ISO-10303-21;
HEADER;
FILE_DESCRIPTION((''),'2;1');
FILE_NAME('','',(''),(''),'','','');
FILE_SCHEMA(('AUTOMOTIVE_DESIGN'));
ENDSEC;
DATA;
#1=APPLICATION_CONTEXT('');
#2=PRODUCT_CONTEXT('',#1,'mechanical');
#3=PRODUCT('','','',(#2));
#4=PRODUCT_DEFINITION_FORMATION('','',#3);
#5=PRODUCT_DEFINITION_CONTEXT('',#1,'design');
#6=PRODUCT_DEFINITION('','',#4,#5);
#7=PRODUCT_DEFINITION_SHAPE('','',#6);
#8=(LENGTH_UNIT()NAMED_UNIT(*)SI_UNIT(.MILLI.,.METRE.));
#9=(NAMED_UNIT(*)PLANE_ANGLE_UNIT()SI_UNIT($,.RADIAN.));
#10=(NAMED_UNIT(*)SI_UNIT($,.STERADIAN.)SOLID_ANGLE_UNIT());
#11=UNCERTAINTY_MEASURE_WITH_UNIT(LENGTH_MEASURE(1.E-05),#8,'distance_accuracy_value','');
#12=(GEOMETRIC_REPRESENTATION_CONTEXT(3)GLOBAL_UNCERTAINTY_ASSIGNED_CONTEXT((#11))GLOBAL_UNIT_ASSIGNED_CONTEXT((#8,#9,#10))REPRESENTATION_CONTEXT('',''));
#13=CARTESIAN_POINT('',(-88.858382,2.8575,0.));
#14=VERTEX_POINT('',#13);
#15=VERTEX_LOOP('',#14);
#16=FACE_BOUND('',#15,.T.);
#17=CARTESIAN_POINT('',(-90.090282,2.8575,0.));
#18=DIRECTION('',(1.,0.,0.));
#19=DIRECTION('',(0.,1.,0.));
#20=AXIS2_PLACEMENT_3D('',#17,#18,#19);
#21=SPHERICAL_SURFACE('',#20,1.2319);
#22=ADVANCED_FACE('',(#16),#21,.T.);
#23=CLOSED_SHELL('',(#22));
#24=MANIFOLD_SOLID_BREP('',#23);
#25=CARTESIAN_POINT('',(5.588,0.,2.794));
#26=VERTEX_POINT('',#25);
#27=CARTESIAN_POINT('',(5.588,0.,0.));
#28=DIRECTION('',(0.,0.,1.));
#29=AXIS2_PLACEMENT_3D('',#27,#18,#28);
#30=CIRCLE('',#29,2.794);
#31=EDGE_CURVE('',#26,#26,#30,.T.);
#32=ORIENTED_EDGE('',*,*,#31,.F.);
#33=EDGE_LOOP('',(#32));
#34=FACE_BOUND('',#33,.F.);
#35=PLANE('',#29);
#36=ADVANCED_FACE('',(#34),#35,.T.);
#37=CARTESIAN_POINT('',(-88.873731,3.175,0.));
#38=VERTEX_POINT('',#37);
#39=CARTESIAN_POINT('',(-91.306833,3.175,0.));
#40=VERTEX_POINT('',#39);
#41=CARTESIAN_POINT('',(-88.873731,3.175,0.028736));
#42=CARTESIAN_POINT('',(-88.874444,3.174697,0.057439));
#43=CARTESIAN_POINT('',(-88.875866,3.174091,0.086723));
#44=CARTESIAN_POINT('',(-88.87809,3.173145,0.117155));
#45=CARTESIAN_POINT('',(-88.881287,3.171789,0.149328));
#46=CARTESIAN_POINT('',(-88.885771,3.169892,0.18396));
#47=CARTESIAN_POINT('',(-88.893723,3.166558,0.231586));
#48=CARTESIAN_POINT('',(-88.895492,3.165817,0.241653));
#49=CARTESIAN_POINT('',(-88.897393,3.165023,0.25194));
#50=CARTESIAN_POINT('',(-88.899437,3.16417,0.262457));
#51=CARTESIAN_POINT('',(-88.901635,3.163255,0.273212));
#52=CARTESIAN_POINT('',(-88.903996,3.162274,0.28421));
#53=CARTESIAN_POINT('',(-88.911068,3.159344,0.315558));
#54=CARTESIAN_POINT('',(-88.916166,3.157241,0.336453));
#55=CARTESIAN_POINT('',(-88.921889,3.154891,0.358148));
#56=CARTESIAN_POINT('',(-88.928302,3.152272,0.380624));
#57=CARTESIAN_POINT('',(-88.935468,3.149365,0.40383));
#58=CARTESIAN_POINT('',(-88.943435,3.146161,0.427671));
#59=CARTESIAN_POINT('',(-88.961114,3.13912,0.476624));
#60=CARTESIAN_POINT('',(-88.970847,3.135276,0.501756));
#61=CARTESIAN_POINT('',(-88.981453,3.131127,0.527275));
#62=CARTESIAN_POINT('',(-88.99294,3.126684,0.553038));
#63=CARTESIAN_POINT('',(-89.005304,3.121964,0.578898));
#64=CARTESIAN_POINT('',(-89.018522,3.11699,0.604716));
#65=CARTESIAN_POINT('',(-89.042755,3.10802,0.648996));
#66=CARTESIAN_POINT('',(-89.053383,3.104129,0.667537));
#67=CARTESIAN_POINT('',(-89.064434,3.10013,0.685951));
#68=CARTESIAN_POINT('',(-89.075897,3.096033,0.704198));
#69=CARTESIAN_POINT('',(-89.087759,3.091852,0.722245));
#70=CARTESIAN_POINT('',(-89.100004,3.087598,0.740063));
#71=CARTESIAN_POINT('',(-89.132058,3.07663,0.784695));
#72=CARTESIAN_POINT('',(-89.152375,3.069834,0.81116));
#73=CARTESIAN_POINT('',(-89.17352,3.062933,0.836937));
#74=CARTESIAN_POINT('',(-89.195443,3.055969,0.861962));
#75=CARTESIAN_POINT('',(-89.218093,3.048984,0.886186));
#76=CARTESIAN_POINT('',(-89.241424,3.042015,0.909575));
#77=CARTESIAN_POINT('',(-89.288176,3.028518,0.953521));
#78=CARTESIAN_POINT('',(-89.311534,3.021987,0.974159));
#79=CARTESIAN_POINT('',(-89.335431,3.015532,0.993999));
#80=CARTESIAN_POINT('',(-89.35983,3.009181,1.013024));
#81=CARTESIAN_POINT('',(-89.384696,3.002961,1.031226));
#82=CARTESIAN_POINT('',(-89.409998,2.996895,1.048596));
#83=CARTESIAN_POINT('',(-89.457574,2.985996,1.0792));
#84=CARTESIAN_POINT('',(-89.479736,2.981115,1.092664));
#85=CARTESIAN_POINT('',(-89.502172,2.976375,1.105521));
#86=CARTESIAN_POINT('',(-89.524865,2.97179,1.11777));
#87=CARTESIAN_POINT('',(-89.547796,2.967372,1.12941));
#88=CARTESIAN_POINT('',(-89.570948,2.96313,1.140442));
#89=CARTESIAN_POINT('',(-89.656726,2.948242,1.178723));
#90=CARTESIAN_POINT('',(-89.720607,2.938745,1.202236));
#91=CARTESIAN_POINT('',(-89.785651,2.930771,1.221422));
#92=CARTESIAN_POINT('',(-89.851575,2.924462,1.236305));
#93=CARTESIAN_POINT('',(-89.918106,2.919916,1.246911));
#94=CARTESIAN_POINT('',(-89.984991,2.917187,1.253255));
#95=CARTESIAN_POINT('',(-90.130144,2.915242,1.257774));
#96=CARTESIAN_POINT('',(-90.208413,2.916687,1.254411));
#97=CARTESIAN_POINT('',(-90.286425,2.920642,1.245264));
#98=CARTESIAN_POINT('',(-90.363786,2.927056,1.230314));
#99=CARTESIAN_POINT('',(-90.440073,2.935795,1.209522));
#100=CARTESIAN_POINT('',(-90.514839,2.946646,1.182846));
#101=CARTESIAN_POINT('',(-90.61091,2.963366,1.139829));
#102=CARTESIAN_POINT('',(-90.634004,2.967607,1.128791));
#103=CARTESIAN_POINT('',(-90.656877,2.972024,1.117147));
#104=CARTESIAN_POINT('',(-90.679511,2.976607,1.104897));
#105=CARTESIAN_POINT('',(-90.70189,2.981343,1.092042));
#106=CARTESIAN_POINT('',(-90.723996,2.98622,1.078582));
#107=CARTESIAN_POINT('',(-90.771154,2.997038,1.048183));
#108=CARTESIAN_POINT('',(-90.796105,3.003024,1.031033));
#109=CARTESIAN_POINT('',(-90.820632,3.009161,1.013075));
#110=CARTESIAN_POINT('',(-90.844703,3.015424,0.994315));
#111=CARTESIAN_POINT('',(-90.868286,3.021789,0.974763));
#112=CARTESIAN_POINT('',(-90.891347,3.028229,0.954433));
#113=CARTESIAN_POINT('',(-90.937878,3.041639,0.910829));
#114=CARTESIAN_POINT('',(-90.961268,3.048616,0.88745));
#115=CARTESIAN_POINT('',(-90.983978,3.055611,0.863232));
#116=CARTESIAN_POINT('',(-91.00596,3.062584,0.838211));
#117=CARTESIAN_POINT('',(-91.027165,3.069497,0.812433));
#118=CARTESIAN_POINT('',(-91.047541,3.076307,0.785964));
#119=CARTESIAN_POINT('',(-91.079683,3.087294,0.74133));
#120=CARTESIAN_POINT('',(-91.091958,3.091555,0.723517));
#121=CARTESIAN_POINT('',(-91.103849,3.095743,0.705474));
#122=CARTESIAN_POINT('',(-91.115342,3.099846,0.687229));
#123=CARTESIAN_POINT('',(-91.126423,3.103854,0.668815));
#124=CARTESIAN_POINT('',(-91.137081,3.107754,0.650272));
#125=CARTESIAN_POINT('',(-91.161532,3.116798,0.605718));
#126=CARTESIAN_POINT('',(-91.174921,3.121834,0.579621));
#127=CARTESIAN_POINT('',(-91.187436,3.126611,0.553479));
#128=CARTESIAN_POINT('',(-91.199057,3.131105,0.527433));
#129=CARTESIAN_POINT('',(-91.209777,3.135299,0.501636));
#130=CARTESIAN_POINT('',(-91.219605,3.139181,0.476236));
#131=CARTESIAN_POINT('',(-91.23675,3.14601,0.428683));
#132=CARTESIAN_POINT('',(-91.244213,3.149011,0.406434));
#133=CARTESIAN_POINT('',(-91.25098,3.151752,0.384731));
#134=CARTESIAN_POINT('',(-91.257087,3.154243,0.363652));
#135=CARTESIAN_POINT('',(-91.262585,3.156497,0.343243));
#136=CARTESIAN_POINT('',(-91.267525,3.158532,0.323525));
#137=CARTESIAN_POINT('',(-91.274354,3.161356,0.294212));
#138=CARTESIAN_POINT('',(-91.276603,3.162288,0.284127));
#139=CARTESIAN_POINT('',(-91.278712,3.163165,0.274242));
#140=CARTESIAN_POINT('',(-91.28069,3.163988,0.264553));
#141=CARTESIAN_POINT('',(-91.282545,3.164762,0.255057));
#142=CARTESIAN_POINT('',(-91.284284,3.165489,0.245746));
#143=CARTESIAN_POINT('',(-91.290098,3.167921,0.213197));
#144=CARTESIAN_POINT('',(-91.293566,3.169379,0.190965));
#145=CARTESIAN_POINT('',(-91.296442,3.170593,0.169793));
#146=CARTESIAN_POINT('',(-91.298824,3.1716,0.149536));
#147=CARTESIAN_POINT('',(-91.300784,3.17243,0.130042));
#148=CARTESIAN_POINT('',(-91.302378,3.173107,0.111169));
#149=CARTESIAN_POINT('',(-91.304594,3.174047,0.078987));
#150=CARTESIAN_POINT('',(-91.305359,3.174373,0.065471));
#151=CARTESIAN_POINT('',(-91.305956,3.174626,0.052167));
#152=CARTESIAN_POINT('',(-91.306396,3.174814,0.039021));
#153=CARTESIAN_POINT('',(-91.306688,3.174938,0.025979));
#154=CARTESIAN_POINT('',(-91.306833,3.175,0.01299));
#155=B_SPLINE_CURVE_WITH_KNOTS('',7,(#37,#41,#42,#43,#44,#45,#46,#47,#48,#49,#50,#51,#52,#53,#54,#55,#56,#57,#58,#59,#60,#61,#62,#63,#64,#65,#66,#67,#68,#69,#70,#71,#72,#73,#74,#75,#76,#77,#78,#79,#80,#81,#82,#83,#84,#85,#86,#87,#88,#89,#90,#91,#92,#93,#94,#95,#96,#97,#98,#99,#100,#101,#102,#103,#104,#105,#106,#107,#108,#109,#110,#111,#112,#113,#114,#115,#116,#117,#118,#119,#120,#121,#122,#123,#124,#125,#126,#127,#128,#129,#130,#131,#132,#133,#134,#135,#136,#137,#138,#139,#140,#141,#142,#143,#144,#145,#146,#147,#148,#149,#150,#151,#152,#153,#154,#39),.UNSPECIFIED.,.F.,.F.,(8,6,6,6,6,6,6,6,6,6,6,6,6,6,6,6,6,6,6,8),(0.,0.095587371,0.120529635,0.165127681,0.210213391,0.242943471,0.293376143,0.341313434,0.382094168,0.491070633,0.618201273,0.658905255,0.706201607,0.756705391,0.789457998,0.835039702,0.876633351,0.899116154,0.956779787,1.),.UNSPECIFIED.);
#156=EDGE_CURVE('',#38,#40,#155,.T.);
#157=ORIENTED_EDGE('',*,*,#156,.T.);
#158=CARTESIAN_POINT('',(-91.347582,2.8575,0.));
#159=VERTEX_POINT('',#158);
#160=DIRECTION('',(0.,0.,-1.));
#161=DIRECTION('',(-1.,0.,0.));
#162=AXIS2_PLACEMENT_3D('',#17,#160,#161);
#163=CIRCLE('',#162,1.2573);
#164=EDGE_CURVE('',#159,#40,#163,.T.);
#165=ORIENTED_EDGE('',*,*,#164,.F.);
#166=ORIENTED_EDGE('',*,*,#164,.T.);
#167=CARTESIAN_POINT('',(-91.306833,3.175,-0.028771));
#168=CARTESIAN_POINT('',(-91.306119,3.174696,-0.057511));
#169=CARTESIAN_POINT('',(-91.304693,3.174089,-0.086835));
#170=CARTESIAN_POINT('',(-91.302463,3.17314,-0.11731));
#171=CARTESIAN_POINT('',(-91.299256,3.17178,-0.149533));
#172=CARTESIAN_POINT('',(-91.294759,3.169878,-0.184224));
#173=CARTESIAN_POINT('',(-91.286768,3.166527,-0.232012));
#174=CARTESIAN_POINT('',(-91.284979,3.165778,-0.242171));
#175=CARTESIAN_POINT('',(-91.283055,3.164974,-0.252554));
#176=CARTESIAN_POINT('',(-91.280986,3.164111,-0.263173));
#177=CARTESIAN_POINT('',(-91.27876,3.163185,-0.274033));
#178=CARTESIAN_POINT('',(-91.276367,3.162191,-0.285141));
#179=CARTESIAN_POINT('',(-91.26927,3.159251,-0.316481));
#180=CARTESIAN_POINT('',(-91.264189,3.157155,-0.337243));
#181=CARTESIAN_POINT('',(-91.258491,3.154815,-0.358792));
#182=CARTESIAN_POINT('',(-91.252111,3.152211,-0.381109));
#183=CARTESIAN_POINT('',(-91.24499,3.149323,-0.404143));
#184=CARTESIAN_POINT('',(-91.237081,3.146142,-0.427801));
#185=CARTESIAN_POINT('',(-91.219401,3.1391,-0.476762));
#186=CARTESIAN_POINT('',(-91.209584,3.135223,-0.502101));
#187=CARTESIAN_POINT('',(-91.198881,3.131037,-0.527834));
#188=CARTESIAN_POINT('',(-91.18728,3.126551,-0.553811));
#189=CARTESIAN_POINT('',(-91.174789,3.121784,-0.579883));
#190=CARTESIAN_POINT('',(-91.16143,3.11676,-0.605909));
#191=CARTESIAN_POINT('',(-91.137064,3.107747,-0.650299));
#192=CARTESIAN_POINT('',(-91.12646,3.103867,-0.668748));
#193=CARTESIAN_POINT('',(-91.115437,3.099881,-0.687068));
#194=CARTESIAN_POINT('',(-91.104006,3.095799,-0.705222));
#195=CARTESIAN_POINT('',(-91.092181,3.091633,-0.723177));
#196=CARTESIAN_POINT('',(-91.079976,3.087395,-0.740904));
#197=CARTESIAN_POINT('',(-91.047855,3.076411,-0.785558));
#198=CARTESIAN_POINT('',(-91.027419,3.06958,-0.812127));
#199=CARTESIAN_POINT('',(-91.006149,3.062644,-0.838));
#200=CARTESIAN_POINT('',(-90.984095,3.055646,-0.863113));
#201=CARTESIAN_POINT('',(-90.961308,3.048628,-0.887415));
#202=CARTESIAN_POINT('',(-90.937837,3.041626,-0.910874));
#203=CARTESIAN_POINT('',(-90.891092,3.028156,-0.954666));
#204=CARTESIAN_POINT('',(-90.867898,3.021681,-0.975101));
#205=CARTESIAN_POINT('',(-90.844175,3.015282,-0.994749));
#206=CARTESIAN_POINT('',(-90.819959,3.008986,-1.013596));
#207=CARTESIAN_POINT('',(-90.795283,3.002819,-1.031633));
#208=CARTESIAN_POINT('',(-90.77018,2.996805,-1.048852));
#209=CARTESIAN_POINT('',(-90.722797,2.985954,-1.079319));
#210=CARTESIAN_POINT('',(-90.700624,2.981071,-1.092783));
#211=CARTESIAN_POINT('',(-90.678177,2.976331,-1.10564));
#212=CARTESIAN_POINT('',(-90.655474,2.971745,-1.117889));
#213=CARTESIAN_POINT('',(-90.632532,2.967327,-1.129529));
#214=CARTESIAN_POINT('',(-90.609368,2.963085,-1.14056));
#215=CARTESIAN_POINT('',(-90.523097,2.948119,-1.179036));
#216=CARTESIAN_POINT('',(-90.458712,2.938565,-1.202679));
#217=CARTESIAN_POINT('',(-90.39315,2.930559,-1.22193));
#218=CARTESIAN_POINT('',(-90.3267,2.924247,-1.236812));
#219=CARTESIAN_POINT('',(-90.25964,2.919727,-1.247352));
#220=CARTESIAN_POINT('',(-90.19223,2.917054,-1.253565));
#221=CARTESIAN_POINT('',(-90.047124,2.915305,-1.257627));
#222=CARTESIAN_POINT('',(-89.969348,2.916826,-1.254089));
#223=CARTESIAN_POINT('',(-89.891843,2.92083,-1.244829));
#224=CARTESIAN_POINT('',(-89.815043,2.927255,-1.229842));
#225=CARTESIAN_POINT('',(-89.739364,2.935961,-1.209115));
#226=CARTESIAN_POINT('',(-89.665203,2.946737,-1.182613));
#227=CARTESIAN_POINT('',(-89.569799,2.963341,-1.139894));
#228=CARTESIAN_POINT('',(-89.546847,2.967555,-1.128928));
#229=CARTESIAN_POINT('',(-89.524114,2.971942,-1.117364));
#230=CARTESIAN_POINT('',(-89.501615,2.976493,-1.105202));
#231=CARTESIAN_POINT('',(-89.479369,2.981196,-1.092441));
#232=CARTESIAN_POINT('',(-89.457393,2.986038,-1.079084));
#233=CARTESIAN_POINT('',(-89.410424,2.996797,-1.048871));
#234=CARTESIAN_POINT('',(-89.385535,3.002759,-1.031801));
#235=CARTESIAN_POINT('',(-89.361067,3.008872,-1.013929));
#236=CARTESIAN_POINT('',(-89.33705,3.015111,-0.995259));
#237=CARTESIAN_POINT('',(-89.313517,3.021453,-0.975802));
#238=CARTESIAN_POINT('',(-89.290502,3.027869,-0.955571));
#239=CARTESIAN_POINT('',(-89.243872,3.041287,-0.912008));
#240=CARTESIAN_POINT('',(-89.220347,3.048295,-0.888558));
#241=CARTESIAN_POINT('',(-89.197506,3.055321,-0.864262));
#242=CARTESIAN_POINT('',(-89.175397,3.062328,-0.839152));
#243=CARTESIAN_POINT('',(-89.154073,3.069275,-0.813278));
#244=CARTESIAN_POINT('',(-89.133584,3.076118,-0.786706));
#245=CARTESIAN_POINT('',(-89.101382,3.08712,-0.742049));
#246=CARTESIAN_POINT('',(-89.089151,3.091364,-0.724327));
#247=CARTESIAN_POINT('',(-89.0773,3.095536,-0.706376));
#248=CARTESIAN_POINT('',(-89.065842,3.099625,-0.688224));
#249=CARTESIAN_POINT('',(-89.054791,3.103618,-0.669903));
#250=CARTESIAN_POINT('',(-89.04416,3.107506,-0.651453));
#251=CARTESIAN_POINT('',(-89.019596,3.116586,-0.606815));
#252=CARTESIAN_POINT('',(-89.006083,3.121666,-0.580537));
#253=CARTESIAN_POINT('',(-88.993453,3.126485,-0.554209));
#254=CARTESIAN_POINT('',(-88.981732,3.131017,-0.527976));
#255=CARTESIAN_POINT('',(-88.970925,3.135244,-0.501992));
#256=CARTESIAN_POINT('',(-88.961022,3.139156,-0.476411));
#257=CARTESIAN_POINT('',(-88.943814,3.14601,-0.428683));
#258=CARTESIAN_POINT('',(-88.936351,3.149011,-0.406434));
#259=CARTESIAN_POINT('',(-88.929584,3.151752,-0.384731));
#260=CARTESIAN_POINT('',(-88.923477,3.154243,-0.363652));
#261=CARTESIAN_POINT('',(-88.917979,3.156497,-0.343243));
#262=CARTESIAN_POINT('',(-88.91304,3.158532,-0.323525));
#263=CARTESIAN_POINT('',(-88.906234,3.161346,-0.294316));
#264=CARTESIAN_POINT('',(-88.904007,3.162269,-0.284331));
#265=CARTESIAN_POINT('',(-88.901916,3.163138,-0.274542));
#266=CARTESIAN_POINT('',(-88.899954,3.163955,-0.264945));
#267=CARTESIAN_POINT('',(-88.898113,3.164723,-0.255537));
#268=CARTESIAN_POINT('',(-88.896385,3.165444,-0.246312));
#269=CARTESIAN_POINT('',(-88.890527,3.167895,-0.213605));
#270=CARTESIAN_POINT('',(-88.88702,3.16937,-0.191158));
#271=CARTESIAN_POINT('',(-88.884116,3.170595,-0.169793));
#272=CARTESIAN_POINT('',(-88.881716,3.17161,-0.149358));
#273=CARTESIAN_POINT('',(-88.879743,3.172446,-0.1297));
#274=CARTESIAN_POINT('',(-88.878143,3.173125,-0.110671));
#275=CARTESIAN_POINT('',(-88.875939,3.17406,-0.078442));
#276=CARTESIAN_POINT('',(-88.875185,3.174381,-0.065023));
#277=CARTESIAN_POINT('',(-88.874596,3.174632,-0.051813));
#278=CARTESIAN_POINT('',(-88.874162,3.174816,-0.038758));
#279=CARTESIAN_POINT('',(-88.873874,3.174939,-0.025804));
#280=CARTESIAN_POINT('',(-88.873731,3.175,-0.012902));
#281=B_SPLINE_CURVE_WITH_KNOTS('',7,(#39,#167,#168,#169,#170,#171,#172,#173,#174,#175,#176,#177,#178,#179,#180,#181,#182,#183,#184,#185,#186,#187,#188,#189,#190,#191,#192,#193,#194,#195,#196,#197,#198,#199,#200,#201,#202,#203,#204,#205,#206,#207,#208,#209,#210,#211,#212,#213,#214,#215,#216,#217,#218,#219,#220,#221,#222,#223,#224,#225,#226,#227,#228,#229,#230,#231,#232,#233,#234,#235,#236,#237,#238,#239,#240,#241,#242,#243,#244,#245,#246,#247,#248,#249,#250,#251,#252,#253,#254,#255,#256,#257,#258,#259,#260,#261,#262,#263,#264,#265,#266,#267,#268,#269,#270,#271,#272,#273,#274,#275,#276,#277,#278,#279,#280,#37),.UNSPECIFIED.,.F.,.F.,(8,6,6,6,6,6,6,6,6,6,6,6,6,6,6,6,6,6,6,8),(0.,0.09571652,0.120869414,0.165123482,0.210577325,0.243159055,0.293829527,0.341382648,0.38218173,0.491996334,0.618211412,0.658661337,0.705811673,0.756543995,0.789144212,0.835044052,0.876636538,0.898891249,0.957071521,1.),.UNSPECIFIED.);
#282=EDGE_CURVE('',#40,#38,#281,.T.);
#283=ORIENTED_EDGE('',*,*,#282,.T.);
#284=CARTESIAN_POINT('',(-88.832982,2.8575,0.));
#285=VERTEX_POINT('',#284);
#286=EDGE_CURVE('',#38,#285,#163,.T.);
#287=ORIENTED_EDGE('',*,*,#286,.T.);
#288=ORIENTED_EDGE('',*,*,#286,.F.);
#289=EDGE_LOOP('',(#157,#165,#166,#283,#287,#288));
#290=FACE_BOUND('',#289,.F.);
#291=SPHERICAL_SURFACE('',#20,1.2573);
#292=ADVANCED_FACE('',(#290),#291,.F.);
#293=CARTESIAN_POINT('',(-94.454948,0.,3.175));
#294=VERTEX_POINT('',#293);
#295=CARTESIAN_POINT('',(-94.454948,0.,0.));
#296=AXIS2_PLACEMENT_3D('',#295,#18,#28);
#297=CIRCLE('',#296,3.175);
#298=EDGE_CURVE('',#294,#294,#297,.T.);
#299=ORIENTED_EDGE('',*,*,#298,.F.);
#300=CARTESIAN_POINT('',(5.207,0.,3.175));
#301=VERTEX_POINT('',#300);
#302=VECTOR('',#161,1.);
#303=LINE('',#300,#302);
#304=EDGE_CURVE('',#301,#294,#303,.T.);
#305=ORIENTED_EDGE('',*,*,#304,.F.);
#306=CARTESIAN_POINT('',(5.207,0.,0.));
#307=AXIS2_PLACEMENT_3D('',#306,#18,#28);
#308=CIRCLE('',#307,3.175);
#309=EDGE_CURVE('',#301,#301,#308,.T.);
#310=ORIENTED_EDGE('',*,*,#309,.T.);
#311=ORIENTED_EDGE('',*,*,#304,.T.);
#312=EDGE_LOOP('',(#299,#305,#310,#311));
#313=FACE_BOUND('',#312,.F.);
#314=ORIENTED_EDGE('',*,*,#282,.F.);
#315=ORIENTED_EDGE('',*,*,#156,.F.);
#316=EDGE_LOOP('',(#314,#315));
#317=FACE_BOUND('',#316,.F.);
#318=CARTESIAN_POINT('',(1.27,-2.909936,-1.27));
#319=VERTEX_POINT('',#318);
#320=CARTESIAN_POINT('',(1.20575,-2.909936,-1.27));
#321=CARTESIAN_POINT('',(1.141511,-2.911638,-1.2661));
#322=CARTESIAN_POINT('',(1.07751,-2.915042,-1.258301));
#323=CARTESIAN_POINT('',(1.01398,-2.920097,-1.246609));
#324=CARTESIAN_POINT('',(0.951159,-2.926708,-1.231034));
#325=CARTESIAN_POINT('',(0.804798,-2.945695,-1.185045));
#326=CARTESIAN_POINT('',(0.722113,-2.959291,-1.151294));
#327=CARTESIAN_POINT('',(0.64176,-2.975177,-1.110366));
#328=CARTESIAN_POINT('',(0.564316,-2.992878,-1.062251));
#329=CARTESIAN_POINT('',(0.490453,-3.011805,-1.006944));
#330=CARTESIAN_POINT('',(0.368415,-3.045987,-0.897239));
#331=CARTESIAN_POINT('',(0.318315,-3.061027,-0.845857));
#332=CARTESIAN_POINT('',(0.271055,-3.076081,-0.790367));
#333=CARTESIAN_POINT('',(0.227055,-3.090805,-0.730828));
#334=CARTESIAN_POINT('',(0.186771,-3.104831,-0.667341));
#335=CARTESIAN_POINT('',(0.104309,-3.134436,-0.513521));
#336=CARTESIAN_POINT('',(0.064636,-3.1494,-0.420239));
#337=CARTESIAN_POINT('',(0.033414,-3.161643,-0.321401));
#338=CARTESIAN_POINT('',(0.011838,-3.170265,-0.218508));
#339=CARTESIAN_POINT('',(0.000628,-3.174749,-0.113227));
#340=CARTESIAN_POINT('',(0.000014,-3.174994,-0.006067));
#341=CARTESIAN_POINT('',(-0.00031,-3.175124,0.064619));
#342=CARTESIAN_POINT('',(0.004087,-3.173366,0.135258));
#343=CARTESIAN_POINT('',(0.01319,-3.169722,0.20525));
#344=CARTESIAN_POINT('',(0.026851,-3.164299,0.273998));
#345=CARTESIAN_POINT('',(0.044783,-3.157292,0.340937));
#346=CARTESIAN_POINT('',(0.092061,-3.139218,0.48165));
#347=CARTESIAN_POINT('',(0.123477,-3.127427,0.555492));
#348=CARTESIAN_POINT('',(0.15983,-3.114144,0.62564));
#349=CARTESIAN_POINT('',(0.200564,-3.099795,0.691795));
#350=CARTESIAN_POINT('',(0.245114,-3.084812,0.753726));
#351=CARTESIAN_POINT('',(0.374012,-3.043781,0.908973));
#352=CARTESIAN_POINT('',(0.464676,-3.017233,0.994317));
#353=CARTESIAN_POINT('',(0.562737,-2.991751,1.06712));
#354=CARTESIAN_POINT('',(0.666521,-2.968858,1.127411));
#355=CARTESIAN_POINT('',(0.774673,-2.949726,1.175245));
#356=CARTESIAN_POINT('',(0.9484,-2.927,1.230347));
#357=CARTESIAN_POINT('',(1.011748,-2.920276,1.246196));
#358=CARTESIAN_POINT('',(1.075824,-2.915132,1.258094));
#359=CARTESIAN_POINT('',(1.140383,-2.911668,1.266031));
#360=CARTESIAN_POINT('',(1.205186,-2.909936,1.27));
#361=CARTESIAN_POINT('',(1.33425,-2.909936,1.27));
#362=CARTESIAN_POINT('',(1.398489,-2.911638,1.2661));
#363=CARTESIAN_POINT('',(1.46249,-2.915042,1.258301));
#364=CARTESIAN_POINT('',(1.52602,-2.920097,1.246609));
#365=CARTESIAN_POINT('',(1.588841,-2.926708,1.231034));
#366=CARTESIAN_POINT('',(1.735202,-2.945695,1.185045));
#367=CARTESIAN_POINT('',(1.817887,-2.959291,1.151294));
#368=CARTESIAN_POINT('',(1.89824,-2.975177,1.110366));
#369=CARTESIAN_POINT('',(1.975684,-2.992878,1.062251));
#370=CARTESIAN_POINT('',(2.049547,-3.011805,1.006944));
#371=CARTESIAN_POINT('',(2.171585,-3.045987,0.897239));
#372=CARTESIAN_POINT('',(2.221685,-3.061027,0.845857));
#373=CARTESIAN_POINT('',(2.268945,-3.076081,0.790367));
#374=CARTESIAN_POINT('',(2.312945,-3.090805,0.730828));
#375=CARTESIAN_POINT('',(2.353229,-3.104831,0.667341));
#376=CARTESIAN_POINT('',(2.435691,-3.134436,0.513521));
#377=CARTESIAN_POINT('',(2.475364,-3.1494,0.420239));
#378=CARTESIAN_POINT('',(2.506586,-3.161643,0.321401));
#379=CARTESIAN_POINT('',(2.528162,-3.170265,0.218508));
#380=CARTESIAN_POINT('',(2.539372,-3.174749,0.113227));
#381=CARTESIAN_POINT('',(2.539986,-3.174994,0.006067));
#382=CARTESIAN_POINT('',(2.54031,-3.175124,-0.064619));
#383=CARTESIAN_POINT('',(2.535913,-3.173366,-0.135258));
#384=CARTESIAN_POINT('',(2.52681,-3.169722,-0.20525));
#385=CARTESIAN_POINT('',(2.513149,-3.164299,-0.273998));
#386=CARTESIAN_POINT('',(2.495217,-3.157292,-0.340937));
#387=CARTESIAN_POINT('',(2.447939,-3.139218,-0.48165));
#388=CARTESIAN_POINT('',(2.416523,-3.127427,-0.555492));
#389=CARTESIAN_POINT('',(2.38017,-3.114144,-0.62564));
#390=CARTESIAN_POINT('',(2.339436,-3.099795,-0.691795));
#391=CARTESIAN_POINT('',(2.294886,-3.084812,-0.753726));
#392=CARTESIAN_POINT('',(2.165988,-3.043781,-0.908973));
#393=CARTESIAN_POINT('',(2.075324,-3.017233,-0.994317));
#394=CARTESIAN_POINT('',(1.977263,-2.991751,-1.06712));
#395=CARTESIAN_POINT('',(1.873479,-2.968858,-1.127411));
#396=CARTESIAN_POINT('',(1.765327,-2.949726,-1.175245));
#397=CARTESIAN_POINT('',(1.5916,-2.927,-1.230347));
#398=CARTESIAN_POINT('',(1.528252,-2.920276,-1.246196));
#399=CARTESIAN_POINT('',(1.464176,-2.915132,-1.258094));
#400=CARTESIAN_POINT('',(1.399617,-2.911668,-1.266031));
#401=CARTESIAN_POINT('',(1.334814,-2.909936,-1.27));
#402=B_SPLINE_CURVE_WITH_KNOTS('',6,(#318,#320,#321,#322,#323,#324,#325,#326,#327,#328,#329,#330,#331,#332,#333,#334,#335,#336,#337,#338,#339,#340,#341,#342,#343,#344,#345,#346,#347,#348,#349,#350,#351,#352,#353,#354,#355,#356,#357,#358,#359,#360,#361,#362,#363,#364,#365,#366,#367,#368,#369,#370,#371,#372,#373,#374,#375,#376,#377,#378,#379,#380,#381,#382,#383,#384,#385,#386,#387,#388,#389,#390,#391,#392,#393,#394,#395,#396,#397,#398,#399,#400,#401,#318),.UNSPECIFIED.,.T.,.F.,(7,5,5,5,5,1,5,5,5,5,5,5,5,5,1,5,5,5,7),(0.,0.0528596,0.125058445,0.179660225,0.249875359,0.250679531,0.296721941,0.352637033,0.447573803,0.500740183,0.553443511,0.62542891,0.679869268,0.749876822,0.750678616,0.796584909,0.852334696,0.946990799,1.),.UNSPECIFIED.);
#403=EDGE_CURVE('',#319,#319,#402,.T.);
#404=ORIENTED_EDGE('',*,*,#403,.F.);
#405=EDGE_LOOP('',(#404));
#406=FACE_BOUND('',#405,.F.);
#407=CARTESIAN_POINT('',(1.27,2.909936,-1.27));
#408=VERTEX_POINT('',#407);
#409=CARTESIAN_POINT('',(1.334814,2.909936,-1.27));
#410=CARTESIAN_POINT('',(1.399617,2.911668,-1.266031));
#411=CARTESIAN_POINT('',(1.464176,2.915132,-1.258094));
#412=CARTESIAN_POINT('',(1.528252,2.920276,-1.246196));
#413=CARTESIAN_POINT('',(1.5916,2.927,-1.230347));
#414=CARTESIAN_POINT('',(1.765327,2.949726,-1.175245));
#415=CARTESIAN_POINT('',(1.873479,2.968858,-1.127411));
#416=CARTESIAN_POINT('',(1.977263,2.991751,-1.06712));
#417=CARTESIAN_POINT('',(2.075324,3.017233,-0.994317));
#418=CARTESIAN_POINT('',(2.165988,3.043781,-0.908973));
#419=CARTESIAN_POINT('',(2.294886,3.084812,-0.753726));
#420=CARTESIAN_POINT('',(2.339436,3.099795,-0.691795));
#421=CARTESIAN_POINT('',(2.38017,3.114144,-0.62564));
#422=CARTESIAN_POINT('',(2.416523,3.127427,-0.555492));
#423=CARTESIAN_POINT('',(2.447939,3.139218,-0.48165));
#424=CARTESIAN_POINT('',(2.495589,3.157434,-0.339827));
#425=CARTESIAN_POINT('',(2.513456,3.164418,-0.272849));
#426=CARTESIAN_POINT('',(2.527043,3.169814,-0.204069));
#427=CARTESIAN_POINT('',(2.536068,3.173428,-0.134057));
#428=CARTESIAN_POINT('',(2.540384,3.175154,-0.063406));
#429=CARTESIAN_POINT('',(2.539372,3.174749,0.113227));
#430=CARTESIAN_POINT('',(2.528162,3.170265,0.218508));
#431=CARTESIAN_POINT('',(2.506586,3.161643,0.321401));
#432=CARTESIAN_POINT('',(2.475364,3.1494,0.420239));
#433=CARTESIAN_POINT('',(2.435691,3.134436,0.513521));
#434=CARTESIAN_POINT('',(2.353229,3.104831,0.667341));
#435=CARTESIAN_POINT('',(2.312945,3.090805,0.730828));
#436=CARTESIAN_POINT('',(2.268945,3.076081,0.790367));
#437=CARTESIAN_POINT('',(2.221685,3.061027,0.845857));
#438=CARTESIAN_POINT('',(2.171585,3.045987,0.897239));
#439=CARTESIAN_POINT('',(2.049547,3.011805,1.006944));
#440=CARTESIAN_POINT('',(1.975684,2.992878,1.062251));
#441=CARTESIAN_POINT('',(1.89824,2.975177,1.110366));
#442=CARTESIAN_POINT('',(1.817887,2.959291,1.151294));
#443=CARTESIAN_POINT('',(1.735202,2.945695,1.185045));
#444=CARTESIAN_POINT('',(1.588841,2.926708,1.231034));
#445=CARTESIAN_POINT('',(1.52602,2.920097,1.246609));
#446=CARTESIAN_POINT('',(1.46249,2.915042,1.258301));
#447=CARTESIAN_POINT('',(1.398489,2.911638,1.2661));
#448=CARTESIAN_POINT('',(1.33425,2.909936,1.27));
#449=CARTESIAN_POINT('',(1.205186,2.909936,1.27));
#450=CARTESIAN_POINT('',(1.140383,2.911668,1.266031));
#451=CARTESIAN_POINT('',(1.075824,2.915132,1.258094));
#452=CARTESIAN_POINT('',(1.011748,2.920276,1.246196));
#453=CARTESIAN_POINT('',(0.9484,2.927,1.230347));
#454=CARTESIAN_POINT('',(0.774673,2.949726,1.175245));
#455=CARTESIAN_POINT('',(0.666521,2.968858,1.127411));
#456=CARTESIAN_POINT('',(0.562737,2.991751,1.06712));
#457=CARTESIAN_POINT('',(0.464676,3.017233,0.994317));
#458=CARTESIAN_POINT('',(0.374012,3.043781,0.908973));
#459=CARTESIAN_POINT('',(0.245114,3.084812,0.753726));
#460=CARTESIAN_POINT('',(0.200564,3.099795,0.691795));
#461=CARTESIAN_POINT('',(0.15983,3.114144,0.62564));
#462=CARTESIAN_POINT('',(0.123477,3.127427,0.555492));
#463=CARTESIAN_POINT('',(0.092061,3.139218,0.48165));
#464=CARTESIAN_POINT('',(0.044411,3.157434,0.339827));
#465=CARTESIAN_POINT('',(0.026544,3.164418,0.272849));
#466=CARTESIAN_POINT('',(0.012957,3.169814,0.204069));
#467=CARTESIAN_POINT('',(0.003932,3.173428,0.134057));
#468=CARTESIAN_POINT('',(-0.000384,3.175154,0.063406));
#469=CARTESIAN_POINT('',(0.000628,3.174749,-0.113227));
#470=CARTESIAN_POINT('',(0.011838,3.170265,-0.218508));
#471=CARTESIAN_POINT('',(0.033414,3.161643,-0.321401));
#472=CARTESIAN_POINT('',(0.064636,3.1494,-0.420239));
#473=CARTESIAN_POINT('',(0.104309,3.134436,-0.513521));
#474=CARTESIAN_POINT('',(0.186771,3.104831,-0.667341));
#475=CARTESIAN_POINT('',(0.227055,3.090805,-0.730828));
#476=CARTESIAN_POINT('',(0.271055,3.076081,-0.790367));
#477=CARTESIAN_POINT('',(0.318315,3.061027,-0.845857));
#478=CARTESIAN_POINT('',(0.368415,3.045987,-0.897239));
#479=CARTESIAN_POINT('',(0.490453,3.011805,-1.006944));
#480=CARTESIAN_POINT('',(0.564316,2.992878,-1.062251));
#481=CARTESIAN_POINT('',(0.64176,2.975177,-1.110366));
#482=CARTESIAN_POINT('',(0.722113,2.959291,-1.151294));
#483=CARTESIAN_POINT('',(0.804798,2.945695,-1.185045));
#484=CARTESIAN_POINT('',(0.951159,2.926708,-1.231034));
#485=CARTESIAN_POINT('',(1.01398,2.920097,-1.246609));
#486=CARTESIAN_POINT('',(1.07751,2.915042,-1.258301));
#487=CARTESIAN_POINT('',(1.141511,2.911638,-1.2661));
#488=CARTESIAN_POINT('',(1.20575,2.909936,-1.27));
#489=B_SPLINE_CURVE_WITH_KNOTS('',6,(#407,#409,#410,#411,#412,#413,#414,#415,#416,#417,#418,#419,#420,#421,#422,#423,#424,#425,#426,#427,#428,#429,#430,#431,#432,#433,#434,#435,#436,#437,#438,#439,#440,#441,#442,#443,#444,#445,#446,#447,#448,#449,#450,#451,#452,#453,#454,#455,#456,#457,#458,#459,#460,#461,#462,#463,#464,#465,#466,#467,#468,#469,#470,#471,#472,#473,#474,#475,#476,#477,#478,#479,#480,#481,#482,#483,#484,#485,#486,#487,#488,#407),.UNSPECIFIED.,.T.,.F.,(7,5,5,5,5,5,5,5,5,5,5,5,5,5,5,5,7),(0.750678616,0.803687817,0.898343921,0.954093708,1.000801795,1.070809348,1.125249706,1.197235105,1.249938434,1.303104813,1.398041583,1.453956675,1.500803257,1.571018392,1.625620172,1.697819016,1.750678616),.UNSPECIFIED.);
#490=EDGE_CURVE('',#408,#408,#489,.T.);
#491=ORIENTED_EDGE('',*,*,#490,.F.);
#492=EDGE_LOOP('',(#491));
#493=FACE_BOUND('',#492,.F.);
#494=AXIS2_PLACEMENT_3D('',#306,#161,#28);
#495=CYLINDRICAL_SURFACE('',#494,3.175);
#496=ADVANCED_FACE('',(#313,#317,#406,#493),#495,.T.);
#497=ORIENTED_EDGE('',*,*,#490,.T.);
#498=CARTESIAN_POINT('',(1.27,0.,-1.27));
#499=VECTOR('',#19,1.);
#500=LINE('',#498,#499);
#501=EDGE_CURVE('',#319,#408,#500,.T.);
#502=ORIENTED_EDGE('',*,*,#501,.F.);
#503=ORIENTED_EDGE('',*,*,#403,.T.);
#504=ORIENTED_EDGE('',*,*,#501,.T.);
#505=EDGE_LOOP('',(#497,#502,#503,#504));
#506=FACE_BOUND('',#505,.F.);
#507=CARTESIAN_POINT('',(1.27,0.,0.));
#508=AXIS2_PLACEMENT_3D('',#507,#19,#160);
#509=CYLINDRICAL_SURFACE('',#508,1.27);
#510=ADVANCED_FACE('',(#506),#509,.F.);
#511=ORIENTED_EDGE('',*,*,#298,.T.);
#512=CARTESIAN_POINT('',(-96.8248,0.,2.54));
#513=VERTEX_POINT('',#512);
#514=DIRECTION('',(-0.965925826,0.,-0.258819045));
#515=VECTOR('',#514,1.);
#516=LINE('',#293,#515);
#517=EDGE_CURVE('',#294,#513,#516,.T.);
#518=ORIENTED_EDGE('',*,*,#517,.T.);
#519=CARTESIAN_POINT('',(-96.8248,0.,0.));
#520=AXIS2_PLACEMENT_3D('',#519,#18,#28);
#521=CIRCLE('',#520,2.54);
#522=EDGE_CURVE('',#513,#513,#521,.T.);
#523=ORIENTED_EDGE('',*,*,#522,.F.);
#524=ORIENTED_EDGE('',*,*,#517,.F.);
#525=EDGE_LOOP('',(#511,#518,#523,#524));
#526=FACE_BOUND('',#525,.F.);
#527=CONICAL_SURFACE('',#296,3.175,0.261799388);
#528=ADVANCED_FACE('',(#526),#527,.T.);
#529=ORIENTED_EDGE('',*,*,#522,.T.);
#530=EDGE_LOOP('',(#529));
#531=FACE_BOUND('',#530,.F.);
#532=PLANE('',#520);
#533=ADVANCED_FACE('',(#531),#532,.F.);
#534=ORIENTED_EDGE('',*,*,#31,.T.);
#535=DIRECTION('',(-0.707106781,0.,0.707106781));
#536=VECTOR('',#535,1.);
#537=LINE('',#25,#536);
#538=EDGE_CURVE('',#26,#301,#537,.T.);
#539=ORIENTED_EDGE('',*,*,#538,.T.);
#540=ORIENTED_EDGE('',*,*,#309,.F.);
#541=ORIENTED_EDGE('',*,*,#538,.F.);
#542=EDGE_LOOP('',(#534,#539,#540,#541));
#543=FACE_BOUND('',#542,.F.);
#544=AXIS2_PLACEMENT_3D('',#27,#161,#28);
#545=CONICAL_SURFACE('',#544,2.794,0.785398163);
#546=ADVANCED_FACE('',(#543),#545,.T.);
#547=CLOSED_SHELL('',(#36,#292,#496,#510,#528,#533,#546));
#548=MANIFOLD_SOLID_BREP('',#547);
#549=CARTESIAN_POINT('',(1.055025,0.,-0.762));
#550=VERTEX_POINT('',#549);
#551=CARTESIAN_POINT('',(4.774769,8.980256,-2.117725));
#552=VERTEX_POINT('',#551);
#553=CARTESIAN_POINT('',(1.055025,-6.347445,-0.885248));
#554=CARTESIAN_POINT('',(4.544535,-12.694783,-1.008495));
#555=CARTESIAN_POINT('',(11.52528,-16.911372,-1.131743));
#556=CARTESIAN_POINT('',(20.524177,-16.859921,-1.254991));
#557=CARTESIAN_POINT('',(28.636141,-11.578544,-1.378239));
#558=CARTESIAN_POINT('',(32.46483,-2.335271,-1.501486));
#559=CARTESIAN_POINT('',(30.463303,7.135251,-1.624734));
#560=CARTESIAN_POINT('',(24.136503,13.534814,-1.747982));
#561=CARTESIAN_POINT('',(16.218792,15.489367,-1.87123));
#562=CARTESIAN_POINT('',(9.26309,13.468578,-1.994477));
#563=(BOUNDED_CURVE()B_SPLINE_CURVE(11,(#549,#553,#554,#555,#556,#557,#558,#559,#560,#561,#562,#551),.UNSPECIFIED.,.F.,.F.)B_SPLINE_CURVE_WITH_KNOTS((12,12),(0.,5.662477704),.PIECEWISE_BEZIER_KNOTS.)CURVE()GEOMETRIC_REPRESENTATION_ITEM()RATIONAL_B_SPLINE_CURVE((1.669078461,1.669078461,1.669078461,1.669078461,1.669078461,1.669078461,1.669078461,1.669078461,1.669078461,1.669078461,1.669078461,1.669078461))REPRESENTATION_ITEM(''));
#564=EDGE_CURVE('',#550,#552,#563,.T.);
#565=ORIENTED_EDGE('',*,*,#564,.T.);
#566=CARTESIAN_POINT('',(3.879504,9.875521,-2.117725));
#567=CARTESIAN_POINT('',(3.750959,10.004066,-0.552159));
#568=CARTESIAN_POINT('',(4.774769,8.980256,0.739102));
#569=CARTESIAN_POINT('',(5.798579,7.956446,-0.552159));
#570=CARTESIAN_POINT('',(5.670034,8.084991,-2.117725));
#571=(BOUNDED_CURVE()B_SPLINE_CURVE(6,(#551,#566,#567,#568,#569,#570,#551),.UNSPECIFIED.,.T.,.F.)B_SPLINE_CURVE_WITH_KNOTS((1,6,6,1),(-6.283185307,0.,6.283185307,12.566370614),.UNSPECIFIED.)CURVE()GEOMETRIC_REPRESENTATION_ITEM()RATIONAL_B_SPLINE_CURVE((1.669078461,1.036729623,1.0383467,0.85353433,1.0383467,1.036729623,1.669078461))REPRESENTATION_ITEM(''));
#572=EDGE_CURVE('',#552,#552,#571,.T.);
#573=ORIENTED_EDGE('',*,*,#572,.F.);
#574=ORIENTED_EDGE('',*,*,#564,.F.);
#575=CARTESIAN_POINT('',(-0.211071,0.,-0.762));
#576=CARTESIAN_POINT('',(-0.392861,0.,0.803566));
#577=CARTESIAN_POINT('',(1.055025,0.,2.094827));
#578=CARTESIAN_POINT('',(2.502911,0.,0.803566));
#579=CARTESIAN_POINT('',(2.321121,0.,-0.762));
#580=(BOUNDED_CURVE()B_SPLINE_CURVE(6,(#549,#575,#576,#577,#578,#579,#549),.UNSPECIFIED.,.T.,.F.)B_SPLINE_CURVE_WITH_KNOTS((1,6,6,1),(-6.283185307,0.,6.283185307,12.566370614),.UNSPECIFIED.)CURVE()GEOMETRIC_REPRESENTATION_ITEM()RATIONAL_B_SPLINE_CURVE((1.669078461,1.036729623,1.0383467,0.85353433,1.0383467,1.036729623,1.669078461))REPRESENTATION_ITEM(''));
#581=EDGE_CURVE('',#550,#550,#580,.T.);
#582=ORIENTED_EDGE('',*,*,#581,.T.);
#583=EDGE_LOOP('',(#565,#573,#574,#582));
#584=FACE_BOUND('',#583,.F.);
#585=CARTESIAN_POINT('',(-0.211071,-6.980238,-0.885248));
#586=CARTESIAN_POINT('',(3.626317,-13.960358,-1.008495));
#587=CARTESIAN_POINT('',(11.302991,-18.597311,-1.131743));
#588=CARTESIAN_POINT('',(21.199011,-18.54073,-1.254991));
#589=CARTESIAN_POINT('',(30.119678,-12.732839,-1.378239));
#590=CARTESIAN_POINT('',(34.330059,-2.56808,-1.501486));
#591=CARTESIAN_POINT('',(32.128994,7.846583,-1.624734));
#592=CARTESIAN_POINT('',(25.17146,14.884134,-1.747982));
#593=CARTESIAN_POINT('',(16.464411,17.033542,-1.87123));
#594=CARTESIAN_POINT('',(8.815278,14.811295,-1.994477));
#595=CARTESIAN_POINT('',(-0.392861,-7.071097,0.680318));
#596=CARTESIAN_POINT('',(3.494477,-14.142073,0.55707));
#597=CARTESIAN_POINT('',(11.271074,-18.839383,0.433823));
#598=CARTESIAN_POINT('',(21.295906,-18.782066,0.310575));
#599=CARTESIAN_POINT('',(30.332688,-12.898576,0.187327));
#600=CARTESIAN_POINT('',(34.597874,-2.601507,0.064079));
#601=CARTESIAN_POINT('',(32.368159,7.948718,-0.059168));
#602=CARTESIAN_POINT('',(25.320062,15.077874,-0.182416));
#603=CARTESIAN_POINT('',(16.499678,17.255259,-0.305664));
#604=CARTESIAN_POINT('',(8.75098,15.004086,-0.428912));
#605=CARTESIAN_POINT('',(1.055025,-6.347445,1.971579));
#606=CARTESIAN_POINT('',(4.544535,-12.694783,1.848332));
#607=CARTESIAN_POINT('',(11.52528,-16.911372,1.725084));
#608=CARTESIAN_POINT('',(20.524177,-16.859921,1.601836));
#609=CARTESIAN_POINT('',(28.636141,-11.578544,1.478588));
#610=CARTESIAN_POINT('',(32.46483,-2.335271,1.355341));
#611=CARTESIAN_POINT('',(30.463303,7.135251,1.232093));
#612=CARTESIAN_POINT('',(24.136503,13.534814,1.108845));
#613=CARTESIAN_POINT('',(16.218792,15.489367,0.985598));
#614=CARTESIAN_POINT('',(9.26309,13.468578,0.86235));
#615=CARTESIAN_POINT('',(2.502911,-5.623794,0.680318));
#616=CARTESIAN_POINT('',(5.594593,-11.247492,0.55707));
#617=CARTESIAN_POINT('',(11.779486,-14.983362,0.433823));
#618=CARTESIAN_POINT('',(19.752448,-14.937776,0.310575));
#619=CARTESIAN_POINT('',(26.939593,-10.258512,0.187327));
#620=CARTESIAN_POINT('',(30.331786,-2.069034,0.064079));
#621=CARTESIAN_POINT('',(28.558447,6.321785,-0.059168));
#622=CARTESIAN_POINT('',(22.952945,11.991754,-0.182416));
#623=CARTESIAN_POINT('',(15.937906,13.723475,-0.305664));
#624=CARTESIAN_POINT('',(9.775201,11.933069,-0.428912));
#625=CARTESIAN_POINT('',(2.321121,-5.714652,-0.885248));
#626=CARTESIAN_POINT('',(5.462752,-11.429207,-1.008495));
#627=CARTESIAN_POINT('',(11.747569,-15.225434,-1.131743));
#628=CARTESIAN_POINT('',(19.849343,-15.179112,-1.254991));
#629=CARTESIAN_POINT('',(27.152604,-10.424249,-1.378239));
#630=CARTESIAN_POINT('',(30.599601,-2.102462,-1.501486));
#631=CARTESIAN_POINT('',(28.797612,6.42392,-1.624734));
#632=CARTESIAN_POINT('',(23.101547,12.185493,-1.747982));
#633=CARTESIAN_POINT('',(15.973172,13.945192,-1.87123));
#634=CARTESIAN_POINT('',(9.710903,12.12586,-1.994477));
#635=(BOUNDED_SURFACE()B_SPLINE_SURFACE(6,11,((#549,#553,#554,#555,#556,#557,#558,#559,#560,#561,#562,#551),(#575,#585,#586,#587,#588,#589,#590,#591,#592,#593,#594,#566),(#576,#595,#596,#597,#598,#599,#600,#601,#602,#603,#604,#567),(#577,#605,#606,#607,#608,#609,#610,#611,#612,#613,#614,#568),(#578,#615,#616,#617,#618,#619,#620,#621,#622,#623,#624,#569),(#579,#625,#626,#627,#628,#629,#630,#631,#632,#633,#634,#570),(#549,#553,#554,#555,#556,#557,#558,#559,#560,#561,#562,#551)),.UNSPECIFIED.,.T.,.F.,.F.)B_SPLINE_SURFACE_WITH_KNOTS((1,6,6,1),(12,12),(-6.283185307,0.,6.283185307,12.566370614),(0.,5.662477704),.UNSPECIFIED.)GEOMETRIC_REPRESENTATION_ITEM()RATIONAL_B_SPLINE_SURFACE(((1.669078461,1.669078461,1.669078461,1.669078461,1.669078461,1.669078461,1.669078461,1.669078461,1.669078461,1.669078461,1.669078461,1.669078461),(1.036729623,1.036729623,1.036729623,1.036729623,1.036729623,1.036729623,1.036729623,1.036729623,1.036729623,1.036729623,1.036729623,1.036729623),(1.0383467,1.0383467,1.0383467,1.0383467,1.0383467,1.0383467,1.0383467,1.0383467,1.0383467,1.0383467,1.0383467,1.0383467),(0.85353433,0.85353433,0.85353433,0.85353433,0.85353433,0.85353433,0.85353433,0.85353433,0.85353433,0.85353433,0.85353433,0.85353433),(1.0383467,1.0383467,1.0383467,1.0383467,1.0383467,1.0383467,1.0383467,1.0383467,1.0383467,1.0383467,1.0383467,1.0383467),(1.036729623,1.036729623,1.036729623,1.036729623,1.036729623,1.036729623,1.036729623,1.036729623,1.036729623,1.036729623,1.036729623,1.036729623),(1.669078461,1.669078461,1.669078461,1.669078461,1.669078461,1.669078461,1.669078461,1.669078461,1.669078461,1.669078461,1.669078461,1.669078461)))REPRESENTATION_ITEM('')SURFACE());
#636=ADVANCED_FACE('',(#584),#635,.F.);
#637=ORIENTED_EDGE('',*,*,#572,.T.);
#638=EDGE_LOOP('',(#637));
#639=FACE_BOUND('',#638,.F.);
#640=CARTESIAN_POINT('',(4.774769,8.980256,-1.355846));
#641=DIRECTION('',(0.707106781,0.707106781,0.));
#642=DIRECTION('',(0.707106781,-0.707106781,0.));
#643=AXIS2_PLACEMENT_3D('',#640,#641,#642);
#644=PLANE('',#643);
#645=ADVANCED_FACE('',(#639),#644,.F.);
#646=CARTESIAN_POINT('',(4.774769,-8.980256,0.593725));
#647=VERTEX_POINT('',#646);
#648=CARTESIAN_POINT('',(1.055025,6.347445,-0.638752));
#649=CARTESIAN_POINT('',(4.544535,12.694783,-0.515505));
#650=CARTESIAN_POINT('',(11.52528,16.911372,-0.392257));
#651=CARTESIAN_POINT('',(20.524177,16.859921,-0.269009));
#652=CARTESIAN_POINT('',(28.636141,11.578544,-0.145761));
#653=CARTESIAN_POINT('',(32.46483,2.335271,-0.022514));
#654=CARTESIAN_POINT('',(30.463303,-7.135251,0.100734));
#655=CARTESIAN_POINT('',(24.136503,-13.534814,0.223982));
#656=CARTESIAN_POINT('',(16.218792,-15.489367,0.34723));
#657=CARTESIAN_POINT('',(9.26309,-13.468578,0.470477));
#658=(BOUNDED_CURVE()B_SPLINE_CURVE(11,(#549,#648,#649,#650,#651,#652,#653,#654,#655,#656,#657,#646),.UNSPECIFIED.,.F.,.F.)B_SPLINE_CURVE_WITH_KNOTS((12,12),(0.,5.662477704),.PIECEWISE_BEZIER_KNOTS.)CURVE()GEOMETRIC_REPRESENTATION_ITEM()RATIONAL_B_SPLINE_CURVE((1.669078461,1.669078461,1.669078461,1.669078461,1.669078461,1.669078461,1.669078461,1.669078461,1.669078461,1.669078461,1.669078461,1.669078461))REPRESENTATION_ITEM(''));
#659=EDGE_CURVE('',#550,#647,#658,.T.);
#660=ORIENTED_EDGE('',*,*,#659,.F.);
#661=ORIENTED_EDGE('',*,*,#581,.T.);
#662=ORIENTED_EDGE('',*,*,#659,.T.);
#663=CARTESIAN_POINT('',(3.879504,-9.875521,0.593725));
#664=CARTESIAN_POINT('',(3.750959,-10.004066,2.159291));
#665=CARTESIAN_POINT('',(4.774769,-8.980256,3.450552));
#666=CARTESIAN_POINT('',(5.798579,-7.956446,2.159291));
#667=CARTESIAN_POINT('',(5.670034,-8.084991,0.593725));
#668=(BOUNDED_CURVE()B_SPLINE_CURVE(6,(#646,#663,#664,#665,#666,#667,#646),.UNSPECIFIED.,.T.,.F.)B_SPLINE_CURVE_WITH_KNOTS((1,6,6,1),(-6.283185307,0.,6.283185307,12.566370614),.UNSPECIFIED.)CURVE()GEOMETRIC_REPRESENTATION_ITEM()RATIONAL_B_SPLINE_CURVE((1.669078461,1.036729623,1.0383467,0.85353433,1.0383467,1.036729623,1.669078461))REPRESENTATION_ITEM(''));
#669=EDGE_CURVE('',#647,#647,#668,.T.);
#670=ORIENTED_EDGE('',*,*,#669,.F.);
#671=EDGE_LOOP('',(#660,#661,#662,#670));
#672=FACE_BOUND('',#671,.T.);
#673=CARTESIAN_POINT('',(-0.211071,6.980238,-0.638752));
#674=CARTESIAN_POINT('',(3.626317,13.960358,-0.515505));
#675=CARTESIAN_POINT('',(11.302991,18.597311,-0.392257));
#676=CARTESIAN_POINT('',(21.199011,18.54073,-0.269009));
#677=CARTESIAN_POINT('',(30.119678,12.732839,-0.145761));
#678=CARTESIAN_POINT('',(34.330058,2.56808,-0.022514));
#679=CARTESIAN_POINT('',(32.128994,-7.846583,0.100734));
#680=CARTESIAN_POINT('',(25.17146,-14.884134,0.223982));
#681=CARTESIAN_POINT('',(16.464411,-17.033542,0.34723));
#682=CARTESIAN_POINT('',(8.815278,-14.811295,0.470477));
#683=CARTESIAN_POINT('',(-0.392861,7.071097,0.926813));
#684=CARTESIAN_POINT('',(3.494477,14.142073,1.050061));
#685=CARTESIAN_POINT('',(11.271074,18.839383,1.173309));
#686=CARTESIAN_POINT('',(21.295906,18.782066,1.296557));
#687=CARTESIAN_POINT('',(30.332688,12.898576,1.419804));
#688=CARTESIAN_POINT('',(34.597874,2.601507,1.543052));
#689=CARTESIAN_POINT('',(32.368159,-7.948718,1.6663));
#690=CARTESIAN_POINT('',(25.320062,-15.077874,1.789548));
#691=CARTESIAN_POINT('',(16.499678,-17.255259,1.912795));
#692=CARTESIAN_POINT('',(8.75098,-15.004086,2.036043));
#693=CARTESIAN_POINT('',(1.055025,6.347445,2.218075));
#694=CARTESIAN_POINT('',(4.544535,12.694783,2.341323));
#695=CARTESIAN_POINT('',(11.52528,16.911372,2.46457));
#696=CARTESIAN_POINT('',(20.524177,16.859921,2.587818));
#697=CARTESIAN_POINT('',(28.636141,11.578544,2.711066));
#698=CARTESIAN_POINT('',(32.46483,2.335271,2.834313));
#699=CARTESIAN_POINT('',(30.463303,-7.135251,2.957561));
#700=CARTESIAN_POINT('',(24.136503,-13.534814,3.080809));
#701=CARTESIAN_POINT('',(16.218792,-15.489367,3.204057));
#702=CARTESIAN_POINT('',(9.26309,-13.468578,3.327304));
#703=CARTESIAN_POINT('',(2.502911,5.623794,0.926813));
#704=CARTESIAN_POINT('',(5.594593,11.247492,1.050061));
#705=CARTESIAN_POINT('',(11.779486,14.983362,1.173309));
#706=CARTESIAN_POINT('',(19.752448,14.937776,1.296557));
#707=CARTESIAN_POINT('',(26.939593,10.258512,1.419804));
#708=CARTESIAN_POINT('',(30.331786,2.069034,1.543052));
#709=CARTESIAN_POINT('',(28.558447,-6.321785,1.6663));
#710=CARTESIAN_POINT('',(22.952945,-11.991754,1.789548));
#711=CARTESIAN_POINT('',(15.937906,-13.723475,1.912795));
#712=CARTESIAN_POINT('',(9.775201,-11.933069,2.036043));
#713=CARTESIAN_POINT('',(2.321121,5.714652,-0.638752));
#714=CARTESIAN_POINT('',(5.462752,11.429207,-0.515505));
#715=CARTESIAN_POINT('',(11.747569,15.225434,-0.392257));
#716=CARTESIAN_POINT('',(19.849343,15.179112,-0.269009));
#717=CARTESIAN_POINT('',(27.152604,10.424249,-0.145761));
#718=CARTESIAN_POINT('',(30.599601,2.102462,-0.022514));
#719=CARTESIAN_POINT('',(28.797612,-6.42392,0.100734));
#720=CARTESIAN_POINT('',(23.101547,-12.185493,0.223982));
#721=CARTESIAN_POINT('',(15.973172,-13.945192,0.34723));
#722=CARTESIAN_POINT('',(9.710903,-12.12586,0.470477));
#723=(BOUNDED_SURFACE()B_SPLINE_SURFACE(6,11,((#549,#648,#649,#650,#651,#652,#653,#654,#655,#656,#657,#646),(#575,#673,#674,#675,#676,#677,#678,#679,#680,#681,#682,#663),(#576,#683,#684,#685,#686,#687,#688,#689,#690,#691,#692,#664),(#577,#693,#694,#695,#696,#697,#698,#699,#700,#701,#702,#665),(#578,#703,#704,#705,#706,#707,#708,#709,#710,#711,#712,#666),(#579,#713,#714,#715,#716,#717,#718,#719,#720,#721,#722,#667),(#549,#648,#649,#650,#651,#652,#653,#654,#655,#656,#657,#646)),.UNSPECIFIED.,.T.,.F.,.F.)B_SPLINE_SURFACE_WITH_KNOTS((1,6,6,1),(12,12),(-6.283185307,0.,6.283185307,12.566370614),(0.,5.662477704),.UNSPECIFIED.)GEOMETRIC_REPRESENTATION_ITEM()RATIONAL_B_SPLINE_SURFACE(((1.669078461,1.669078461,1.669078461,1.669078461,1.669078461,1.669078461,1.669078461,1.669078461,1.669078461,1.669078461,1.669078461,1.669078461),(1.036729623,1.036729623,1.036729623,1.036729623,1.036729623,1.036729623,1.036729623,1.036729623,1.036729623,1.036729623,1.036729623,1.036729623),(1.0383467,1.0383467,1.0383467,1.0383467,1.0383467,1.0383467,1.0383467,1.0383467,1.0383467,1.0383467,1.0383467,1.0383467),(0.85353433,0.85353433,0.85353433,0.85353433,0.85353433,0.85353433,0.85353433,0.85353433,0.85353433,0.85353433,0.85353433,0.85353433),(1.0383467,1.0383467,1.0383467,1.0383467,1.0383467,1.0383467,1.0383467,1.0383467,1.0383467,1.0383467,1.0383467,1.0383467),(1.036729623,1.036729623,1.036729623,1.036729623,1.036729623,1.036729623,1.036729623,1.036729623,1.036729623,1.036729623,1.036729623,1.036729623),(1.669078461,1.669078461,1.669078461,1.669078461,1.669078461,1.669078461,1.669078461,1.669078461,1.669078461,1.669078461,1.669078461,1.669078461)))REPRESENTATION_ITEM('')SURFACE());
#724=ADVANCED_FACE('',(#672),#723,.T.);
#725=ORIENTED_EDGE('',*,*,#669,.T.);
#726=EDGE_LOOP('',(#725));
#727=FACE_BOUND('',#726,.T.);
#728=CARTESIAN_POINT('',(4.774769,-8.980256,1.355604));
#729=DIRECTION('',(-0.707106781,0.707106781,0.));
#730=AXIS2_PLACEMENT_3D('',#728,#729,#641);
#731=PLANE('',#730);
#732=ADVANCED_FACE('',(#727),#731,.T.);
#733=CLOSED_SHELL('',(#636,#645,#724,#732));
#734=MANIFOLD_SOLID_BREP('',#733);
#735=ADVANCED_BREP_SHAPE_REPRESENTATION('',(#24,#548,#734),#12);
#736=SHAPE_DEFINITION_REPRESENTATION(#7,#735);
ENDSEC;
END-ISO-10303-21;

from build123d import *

# Parameters (mm, degrees)
SKETCH4_W          = 1.27
SKETCH4_H          = 6.35
SWEEP1_PITCH       = 1.5494
SWEEP1_HEIGHT      = 1.355725
SWEEP1_RADIUS      = 13.462
SKETCH6_R          = 0.762
SWEEP2_PITCH       = 1.5494
SWEEP2_HEIGHT      = 1.355725
SWEEP2_RADIUS      = 13.462
SWEEP2_START_ANGLE = -180
SKETCH6_2_R        = 0.762


with BuildPart() as part:
    # Sketch1 → Revolve1 (revolve)
    with BuildSketch(Plane.XY, mode=Mode.PRIVATE) as revolve1_sk:
        Polygon((5.588, 2.794), (5.207, 3.175), (-94.454947737, 3.175), (-96.8248, 2.54), (-96.8248, 0), (5.588, 0), align=None)
    revolve(revolve1_sk.sketch.rotate(Axis((5.588, 0, 0), (1, 0, 0)), 90), axis=Axis((5.588, 0, 0), (1, 0, 0)))

    # Sketch2 → Cut-Revolve1 (revolve, cut)
    with BuildSketch(Plane.XY):
        with BuildLine():
            Line((-88.832982051, 2.8575), (-91.347582051, 2.8575))
            ThreePointArc((-91.347582051, 2.8575), (-90.090282051, 4.1148), (-88.832982051, 2.8575))
        make_face()
    revolve(axis=Axis((-88.832982051, 2.8575, 0), (1, 0, 0)), mode=Mode.SUBTRACT)

    # Sketch4 → Cut-Revolve2 (revolve, cut)
    with BuildSketch(Plane.XY, mode=Mode.PRIVATE) as cut_revolve2_sk:
        with Locations((1.905, 0)):
            Rectangle(SKETCH4_W, SKETCH4_H)
    revolve(cut_revolve2_sk.sketch.rotate(Axis((1.27, -3.175, 0), (0, 1, 0)), 90), axis=Axis((1.27, -3.175, 0), (0, 1, 0)), mode=Mode.SUBTRACT)


with BuildPart() as body_2:
    # Sketch3 → Revolve2 (revolve)
    with BuildSketch(Plane.XY):
        with BuildLine():
            Line((-88.858382051, 2.8575), (-91.322182051, 2.8575))
            ThreePointArc((-91.322182051, 2.8575), (-90.090282051, 4.0894), (-88.858382051, 2.8575))
        make_face()
    revolve(axis=Axis((-88.858382051, 2.8575, 0), (1, 0, 0)))


with BuildPart() as body_3:
    # Sweep1: sweep along a helix
    with BuildLine() as sweep1_path:
        Helix(SWEEP1_PITCH, SWEEP1_HEIGHT, SWEEP1_RADIUS, center=(13.755025091, 0, 0), direction=(0, 0, -1), lefthand=True)
    # Sketch6 → Sweep1 (sweep)
    with BuildSketch(Plane(origin=(114.003847968, 0, 0), x_dir=(0, 0, -1), z_dir=(0, 1, 0))):
        with Locations((0, 112.948822877)):
            Circle(SKETCH6_R)
    sweep(path=sweep1_path.line, is_frenet=True)

    # Sweep2: sweep along a helix
    with BuildLine() as sweep2_path:
        add(Helix(SWEEP2_PITCH, SWEEP2_HEIGHT, SWEEP2_RADIUS, center=(13.755025091, 0, 0), direction=(0, 0, 1), lefthand=True, mode=Mode.PRIVATE).rotate(Axis((13.755025091, 0, 0), (0, 0, 1)), SWEEP2_START_ANGLE))
    # Sketch6<2> → Sweep2 (sweep)
    with BuildSketch(Plane(origin=(114.003847968, 0, 0), x_dir=(0, 0, -1), z_dir=(0, 1, 0))):
        with Locations((0, 112.948822877)):
            Circle(SKETCH6_2_R)
    sweep(path=sweep2_path.line, is_frenet=True)


solid = Compound([part.part, body_2.part, body_3.part])
